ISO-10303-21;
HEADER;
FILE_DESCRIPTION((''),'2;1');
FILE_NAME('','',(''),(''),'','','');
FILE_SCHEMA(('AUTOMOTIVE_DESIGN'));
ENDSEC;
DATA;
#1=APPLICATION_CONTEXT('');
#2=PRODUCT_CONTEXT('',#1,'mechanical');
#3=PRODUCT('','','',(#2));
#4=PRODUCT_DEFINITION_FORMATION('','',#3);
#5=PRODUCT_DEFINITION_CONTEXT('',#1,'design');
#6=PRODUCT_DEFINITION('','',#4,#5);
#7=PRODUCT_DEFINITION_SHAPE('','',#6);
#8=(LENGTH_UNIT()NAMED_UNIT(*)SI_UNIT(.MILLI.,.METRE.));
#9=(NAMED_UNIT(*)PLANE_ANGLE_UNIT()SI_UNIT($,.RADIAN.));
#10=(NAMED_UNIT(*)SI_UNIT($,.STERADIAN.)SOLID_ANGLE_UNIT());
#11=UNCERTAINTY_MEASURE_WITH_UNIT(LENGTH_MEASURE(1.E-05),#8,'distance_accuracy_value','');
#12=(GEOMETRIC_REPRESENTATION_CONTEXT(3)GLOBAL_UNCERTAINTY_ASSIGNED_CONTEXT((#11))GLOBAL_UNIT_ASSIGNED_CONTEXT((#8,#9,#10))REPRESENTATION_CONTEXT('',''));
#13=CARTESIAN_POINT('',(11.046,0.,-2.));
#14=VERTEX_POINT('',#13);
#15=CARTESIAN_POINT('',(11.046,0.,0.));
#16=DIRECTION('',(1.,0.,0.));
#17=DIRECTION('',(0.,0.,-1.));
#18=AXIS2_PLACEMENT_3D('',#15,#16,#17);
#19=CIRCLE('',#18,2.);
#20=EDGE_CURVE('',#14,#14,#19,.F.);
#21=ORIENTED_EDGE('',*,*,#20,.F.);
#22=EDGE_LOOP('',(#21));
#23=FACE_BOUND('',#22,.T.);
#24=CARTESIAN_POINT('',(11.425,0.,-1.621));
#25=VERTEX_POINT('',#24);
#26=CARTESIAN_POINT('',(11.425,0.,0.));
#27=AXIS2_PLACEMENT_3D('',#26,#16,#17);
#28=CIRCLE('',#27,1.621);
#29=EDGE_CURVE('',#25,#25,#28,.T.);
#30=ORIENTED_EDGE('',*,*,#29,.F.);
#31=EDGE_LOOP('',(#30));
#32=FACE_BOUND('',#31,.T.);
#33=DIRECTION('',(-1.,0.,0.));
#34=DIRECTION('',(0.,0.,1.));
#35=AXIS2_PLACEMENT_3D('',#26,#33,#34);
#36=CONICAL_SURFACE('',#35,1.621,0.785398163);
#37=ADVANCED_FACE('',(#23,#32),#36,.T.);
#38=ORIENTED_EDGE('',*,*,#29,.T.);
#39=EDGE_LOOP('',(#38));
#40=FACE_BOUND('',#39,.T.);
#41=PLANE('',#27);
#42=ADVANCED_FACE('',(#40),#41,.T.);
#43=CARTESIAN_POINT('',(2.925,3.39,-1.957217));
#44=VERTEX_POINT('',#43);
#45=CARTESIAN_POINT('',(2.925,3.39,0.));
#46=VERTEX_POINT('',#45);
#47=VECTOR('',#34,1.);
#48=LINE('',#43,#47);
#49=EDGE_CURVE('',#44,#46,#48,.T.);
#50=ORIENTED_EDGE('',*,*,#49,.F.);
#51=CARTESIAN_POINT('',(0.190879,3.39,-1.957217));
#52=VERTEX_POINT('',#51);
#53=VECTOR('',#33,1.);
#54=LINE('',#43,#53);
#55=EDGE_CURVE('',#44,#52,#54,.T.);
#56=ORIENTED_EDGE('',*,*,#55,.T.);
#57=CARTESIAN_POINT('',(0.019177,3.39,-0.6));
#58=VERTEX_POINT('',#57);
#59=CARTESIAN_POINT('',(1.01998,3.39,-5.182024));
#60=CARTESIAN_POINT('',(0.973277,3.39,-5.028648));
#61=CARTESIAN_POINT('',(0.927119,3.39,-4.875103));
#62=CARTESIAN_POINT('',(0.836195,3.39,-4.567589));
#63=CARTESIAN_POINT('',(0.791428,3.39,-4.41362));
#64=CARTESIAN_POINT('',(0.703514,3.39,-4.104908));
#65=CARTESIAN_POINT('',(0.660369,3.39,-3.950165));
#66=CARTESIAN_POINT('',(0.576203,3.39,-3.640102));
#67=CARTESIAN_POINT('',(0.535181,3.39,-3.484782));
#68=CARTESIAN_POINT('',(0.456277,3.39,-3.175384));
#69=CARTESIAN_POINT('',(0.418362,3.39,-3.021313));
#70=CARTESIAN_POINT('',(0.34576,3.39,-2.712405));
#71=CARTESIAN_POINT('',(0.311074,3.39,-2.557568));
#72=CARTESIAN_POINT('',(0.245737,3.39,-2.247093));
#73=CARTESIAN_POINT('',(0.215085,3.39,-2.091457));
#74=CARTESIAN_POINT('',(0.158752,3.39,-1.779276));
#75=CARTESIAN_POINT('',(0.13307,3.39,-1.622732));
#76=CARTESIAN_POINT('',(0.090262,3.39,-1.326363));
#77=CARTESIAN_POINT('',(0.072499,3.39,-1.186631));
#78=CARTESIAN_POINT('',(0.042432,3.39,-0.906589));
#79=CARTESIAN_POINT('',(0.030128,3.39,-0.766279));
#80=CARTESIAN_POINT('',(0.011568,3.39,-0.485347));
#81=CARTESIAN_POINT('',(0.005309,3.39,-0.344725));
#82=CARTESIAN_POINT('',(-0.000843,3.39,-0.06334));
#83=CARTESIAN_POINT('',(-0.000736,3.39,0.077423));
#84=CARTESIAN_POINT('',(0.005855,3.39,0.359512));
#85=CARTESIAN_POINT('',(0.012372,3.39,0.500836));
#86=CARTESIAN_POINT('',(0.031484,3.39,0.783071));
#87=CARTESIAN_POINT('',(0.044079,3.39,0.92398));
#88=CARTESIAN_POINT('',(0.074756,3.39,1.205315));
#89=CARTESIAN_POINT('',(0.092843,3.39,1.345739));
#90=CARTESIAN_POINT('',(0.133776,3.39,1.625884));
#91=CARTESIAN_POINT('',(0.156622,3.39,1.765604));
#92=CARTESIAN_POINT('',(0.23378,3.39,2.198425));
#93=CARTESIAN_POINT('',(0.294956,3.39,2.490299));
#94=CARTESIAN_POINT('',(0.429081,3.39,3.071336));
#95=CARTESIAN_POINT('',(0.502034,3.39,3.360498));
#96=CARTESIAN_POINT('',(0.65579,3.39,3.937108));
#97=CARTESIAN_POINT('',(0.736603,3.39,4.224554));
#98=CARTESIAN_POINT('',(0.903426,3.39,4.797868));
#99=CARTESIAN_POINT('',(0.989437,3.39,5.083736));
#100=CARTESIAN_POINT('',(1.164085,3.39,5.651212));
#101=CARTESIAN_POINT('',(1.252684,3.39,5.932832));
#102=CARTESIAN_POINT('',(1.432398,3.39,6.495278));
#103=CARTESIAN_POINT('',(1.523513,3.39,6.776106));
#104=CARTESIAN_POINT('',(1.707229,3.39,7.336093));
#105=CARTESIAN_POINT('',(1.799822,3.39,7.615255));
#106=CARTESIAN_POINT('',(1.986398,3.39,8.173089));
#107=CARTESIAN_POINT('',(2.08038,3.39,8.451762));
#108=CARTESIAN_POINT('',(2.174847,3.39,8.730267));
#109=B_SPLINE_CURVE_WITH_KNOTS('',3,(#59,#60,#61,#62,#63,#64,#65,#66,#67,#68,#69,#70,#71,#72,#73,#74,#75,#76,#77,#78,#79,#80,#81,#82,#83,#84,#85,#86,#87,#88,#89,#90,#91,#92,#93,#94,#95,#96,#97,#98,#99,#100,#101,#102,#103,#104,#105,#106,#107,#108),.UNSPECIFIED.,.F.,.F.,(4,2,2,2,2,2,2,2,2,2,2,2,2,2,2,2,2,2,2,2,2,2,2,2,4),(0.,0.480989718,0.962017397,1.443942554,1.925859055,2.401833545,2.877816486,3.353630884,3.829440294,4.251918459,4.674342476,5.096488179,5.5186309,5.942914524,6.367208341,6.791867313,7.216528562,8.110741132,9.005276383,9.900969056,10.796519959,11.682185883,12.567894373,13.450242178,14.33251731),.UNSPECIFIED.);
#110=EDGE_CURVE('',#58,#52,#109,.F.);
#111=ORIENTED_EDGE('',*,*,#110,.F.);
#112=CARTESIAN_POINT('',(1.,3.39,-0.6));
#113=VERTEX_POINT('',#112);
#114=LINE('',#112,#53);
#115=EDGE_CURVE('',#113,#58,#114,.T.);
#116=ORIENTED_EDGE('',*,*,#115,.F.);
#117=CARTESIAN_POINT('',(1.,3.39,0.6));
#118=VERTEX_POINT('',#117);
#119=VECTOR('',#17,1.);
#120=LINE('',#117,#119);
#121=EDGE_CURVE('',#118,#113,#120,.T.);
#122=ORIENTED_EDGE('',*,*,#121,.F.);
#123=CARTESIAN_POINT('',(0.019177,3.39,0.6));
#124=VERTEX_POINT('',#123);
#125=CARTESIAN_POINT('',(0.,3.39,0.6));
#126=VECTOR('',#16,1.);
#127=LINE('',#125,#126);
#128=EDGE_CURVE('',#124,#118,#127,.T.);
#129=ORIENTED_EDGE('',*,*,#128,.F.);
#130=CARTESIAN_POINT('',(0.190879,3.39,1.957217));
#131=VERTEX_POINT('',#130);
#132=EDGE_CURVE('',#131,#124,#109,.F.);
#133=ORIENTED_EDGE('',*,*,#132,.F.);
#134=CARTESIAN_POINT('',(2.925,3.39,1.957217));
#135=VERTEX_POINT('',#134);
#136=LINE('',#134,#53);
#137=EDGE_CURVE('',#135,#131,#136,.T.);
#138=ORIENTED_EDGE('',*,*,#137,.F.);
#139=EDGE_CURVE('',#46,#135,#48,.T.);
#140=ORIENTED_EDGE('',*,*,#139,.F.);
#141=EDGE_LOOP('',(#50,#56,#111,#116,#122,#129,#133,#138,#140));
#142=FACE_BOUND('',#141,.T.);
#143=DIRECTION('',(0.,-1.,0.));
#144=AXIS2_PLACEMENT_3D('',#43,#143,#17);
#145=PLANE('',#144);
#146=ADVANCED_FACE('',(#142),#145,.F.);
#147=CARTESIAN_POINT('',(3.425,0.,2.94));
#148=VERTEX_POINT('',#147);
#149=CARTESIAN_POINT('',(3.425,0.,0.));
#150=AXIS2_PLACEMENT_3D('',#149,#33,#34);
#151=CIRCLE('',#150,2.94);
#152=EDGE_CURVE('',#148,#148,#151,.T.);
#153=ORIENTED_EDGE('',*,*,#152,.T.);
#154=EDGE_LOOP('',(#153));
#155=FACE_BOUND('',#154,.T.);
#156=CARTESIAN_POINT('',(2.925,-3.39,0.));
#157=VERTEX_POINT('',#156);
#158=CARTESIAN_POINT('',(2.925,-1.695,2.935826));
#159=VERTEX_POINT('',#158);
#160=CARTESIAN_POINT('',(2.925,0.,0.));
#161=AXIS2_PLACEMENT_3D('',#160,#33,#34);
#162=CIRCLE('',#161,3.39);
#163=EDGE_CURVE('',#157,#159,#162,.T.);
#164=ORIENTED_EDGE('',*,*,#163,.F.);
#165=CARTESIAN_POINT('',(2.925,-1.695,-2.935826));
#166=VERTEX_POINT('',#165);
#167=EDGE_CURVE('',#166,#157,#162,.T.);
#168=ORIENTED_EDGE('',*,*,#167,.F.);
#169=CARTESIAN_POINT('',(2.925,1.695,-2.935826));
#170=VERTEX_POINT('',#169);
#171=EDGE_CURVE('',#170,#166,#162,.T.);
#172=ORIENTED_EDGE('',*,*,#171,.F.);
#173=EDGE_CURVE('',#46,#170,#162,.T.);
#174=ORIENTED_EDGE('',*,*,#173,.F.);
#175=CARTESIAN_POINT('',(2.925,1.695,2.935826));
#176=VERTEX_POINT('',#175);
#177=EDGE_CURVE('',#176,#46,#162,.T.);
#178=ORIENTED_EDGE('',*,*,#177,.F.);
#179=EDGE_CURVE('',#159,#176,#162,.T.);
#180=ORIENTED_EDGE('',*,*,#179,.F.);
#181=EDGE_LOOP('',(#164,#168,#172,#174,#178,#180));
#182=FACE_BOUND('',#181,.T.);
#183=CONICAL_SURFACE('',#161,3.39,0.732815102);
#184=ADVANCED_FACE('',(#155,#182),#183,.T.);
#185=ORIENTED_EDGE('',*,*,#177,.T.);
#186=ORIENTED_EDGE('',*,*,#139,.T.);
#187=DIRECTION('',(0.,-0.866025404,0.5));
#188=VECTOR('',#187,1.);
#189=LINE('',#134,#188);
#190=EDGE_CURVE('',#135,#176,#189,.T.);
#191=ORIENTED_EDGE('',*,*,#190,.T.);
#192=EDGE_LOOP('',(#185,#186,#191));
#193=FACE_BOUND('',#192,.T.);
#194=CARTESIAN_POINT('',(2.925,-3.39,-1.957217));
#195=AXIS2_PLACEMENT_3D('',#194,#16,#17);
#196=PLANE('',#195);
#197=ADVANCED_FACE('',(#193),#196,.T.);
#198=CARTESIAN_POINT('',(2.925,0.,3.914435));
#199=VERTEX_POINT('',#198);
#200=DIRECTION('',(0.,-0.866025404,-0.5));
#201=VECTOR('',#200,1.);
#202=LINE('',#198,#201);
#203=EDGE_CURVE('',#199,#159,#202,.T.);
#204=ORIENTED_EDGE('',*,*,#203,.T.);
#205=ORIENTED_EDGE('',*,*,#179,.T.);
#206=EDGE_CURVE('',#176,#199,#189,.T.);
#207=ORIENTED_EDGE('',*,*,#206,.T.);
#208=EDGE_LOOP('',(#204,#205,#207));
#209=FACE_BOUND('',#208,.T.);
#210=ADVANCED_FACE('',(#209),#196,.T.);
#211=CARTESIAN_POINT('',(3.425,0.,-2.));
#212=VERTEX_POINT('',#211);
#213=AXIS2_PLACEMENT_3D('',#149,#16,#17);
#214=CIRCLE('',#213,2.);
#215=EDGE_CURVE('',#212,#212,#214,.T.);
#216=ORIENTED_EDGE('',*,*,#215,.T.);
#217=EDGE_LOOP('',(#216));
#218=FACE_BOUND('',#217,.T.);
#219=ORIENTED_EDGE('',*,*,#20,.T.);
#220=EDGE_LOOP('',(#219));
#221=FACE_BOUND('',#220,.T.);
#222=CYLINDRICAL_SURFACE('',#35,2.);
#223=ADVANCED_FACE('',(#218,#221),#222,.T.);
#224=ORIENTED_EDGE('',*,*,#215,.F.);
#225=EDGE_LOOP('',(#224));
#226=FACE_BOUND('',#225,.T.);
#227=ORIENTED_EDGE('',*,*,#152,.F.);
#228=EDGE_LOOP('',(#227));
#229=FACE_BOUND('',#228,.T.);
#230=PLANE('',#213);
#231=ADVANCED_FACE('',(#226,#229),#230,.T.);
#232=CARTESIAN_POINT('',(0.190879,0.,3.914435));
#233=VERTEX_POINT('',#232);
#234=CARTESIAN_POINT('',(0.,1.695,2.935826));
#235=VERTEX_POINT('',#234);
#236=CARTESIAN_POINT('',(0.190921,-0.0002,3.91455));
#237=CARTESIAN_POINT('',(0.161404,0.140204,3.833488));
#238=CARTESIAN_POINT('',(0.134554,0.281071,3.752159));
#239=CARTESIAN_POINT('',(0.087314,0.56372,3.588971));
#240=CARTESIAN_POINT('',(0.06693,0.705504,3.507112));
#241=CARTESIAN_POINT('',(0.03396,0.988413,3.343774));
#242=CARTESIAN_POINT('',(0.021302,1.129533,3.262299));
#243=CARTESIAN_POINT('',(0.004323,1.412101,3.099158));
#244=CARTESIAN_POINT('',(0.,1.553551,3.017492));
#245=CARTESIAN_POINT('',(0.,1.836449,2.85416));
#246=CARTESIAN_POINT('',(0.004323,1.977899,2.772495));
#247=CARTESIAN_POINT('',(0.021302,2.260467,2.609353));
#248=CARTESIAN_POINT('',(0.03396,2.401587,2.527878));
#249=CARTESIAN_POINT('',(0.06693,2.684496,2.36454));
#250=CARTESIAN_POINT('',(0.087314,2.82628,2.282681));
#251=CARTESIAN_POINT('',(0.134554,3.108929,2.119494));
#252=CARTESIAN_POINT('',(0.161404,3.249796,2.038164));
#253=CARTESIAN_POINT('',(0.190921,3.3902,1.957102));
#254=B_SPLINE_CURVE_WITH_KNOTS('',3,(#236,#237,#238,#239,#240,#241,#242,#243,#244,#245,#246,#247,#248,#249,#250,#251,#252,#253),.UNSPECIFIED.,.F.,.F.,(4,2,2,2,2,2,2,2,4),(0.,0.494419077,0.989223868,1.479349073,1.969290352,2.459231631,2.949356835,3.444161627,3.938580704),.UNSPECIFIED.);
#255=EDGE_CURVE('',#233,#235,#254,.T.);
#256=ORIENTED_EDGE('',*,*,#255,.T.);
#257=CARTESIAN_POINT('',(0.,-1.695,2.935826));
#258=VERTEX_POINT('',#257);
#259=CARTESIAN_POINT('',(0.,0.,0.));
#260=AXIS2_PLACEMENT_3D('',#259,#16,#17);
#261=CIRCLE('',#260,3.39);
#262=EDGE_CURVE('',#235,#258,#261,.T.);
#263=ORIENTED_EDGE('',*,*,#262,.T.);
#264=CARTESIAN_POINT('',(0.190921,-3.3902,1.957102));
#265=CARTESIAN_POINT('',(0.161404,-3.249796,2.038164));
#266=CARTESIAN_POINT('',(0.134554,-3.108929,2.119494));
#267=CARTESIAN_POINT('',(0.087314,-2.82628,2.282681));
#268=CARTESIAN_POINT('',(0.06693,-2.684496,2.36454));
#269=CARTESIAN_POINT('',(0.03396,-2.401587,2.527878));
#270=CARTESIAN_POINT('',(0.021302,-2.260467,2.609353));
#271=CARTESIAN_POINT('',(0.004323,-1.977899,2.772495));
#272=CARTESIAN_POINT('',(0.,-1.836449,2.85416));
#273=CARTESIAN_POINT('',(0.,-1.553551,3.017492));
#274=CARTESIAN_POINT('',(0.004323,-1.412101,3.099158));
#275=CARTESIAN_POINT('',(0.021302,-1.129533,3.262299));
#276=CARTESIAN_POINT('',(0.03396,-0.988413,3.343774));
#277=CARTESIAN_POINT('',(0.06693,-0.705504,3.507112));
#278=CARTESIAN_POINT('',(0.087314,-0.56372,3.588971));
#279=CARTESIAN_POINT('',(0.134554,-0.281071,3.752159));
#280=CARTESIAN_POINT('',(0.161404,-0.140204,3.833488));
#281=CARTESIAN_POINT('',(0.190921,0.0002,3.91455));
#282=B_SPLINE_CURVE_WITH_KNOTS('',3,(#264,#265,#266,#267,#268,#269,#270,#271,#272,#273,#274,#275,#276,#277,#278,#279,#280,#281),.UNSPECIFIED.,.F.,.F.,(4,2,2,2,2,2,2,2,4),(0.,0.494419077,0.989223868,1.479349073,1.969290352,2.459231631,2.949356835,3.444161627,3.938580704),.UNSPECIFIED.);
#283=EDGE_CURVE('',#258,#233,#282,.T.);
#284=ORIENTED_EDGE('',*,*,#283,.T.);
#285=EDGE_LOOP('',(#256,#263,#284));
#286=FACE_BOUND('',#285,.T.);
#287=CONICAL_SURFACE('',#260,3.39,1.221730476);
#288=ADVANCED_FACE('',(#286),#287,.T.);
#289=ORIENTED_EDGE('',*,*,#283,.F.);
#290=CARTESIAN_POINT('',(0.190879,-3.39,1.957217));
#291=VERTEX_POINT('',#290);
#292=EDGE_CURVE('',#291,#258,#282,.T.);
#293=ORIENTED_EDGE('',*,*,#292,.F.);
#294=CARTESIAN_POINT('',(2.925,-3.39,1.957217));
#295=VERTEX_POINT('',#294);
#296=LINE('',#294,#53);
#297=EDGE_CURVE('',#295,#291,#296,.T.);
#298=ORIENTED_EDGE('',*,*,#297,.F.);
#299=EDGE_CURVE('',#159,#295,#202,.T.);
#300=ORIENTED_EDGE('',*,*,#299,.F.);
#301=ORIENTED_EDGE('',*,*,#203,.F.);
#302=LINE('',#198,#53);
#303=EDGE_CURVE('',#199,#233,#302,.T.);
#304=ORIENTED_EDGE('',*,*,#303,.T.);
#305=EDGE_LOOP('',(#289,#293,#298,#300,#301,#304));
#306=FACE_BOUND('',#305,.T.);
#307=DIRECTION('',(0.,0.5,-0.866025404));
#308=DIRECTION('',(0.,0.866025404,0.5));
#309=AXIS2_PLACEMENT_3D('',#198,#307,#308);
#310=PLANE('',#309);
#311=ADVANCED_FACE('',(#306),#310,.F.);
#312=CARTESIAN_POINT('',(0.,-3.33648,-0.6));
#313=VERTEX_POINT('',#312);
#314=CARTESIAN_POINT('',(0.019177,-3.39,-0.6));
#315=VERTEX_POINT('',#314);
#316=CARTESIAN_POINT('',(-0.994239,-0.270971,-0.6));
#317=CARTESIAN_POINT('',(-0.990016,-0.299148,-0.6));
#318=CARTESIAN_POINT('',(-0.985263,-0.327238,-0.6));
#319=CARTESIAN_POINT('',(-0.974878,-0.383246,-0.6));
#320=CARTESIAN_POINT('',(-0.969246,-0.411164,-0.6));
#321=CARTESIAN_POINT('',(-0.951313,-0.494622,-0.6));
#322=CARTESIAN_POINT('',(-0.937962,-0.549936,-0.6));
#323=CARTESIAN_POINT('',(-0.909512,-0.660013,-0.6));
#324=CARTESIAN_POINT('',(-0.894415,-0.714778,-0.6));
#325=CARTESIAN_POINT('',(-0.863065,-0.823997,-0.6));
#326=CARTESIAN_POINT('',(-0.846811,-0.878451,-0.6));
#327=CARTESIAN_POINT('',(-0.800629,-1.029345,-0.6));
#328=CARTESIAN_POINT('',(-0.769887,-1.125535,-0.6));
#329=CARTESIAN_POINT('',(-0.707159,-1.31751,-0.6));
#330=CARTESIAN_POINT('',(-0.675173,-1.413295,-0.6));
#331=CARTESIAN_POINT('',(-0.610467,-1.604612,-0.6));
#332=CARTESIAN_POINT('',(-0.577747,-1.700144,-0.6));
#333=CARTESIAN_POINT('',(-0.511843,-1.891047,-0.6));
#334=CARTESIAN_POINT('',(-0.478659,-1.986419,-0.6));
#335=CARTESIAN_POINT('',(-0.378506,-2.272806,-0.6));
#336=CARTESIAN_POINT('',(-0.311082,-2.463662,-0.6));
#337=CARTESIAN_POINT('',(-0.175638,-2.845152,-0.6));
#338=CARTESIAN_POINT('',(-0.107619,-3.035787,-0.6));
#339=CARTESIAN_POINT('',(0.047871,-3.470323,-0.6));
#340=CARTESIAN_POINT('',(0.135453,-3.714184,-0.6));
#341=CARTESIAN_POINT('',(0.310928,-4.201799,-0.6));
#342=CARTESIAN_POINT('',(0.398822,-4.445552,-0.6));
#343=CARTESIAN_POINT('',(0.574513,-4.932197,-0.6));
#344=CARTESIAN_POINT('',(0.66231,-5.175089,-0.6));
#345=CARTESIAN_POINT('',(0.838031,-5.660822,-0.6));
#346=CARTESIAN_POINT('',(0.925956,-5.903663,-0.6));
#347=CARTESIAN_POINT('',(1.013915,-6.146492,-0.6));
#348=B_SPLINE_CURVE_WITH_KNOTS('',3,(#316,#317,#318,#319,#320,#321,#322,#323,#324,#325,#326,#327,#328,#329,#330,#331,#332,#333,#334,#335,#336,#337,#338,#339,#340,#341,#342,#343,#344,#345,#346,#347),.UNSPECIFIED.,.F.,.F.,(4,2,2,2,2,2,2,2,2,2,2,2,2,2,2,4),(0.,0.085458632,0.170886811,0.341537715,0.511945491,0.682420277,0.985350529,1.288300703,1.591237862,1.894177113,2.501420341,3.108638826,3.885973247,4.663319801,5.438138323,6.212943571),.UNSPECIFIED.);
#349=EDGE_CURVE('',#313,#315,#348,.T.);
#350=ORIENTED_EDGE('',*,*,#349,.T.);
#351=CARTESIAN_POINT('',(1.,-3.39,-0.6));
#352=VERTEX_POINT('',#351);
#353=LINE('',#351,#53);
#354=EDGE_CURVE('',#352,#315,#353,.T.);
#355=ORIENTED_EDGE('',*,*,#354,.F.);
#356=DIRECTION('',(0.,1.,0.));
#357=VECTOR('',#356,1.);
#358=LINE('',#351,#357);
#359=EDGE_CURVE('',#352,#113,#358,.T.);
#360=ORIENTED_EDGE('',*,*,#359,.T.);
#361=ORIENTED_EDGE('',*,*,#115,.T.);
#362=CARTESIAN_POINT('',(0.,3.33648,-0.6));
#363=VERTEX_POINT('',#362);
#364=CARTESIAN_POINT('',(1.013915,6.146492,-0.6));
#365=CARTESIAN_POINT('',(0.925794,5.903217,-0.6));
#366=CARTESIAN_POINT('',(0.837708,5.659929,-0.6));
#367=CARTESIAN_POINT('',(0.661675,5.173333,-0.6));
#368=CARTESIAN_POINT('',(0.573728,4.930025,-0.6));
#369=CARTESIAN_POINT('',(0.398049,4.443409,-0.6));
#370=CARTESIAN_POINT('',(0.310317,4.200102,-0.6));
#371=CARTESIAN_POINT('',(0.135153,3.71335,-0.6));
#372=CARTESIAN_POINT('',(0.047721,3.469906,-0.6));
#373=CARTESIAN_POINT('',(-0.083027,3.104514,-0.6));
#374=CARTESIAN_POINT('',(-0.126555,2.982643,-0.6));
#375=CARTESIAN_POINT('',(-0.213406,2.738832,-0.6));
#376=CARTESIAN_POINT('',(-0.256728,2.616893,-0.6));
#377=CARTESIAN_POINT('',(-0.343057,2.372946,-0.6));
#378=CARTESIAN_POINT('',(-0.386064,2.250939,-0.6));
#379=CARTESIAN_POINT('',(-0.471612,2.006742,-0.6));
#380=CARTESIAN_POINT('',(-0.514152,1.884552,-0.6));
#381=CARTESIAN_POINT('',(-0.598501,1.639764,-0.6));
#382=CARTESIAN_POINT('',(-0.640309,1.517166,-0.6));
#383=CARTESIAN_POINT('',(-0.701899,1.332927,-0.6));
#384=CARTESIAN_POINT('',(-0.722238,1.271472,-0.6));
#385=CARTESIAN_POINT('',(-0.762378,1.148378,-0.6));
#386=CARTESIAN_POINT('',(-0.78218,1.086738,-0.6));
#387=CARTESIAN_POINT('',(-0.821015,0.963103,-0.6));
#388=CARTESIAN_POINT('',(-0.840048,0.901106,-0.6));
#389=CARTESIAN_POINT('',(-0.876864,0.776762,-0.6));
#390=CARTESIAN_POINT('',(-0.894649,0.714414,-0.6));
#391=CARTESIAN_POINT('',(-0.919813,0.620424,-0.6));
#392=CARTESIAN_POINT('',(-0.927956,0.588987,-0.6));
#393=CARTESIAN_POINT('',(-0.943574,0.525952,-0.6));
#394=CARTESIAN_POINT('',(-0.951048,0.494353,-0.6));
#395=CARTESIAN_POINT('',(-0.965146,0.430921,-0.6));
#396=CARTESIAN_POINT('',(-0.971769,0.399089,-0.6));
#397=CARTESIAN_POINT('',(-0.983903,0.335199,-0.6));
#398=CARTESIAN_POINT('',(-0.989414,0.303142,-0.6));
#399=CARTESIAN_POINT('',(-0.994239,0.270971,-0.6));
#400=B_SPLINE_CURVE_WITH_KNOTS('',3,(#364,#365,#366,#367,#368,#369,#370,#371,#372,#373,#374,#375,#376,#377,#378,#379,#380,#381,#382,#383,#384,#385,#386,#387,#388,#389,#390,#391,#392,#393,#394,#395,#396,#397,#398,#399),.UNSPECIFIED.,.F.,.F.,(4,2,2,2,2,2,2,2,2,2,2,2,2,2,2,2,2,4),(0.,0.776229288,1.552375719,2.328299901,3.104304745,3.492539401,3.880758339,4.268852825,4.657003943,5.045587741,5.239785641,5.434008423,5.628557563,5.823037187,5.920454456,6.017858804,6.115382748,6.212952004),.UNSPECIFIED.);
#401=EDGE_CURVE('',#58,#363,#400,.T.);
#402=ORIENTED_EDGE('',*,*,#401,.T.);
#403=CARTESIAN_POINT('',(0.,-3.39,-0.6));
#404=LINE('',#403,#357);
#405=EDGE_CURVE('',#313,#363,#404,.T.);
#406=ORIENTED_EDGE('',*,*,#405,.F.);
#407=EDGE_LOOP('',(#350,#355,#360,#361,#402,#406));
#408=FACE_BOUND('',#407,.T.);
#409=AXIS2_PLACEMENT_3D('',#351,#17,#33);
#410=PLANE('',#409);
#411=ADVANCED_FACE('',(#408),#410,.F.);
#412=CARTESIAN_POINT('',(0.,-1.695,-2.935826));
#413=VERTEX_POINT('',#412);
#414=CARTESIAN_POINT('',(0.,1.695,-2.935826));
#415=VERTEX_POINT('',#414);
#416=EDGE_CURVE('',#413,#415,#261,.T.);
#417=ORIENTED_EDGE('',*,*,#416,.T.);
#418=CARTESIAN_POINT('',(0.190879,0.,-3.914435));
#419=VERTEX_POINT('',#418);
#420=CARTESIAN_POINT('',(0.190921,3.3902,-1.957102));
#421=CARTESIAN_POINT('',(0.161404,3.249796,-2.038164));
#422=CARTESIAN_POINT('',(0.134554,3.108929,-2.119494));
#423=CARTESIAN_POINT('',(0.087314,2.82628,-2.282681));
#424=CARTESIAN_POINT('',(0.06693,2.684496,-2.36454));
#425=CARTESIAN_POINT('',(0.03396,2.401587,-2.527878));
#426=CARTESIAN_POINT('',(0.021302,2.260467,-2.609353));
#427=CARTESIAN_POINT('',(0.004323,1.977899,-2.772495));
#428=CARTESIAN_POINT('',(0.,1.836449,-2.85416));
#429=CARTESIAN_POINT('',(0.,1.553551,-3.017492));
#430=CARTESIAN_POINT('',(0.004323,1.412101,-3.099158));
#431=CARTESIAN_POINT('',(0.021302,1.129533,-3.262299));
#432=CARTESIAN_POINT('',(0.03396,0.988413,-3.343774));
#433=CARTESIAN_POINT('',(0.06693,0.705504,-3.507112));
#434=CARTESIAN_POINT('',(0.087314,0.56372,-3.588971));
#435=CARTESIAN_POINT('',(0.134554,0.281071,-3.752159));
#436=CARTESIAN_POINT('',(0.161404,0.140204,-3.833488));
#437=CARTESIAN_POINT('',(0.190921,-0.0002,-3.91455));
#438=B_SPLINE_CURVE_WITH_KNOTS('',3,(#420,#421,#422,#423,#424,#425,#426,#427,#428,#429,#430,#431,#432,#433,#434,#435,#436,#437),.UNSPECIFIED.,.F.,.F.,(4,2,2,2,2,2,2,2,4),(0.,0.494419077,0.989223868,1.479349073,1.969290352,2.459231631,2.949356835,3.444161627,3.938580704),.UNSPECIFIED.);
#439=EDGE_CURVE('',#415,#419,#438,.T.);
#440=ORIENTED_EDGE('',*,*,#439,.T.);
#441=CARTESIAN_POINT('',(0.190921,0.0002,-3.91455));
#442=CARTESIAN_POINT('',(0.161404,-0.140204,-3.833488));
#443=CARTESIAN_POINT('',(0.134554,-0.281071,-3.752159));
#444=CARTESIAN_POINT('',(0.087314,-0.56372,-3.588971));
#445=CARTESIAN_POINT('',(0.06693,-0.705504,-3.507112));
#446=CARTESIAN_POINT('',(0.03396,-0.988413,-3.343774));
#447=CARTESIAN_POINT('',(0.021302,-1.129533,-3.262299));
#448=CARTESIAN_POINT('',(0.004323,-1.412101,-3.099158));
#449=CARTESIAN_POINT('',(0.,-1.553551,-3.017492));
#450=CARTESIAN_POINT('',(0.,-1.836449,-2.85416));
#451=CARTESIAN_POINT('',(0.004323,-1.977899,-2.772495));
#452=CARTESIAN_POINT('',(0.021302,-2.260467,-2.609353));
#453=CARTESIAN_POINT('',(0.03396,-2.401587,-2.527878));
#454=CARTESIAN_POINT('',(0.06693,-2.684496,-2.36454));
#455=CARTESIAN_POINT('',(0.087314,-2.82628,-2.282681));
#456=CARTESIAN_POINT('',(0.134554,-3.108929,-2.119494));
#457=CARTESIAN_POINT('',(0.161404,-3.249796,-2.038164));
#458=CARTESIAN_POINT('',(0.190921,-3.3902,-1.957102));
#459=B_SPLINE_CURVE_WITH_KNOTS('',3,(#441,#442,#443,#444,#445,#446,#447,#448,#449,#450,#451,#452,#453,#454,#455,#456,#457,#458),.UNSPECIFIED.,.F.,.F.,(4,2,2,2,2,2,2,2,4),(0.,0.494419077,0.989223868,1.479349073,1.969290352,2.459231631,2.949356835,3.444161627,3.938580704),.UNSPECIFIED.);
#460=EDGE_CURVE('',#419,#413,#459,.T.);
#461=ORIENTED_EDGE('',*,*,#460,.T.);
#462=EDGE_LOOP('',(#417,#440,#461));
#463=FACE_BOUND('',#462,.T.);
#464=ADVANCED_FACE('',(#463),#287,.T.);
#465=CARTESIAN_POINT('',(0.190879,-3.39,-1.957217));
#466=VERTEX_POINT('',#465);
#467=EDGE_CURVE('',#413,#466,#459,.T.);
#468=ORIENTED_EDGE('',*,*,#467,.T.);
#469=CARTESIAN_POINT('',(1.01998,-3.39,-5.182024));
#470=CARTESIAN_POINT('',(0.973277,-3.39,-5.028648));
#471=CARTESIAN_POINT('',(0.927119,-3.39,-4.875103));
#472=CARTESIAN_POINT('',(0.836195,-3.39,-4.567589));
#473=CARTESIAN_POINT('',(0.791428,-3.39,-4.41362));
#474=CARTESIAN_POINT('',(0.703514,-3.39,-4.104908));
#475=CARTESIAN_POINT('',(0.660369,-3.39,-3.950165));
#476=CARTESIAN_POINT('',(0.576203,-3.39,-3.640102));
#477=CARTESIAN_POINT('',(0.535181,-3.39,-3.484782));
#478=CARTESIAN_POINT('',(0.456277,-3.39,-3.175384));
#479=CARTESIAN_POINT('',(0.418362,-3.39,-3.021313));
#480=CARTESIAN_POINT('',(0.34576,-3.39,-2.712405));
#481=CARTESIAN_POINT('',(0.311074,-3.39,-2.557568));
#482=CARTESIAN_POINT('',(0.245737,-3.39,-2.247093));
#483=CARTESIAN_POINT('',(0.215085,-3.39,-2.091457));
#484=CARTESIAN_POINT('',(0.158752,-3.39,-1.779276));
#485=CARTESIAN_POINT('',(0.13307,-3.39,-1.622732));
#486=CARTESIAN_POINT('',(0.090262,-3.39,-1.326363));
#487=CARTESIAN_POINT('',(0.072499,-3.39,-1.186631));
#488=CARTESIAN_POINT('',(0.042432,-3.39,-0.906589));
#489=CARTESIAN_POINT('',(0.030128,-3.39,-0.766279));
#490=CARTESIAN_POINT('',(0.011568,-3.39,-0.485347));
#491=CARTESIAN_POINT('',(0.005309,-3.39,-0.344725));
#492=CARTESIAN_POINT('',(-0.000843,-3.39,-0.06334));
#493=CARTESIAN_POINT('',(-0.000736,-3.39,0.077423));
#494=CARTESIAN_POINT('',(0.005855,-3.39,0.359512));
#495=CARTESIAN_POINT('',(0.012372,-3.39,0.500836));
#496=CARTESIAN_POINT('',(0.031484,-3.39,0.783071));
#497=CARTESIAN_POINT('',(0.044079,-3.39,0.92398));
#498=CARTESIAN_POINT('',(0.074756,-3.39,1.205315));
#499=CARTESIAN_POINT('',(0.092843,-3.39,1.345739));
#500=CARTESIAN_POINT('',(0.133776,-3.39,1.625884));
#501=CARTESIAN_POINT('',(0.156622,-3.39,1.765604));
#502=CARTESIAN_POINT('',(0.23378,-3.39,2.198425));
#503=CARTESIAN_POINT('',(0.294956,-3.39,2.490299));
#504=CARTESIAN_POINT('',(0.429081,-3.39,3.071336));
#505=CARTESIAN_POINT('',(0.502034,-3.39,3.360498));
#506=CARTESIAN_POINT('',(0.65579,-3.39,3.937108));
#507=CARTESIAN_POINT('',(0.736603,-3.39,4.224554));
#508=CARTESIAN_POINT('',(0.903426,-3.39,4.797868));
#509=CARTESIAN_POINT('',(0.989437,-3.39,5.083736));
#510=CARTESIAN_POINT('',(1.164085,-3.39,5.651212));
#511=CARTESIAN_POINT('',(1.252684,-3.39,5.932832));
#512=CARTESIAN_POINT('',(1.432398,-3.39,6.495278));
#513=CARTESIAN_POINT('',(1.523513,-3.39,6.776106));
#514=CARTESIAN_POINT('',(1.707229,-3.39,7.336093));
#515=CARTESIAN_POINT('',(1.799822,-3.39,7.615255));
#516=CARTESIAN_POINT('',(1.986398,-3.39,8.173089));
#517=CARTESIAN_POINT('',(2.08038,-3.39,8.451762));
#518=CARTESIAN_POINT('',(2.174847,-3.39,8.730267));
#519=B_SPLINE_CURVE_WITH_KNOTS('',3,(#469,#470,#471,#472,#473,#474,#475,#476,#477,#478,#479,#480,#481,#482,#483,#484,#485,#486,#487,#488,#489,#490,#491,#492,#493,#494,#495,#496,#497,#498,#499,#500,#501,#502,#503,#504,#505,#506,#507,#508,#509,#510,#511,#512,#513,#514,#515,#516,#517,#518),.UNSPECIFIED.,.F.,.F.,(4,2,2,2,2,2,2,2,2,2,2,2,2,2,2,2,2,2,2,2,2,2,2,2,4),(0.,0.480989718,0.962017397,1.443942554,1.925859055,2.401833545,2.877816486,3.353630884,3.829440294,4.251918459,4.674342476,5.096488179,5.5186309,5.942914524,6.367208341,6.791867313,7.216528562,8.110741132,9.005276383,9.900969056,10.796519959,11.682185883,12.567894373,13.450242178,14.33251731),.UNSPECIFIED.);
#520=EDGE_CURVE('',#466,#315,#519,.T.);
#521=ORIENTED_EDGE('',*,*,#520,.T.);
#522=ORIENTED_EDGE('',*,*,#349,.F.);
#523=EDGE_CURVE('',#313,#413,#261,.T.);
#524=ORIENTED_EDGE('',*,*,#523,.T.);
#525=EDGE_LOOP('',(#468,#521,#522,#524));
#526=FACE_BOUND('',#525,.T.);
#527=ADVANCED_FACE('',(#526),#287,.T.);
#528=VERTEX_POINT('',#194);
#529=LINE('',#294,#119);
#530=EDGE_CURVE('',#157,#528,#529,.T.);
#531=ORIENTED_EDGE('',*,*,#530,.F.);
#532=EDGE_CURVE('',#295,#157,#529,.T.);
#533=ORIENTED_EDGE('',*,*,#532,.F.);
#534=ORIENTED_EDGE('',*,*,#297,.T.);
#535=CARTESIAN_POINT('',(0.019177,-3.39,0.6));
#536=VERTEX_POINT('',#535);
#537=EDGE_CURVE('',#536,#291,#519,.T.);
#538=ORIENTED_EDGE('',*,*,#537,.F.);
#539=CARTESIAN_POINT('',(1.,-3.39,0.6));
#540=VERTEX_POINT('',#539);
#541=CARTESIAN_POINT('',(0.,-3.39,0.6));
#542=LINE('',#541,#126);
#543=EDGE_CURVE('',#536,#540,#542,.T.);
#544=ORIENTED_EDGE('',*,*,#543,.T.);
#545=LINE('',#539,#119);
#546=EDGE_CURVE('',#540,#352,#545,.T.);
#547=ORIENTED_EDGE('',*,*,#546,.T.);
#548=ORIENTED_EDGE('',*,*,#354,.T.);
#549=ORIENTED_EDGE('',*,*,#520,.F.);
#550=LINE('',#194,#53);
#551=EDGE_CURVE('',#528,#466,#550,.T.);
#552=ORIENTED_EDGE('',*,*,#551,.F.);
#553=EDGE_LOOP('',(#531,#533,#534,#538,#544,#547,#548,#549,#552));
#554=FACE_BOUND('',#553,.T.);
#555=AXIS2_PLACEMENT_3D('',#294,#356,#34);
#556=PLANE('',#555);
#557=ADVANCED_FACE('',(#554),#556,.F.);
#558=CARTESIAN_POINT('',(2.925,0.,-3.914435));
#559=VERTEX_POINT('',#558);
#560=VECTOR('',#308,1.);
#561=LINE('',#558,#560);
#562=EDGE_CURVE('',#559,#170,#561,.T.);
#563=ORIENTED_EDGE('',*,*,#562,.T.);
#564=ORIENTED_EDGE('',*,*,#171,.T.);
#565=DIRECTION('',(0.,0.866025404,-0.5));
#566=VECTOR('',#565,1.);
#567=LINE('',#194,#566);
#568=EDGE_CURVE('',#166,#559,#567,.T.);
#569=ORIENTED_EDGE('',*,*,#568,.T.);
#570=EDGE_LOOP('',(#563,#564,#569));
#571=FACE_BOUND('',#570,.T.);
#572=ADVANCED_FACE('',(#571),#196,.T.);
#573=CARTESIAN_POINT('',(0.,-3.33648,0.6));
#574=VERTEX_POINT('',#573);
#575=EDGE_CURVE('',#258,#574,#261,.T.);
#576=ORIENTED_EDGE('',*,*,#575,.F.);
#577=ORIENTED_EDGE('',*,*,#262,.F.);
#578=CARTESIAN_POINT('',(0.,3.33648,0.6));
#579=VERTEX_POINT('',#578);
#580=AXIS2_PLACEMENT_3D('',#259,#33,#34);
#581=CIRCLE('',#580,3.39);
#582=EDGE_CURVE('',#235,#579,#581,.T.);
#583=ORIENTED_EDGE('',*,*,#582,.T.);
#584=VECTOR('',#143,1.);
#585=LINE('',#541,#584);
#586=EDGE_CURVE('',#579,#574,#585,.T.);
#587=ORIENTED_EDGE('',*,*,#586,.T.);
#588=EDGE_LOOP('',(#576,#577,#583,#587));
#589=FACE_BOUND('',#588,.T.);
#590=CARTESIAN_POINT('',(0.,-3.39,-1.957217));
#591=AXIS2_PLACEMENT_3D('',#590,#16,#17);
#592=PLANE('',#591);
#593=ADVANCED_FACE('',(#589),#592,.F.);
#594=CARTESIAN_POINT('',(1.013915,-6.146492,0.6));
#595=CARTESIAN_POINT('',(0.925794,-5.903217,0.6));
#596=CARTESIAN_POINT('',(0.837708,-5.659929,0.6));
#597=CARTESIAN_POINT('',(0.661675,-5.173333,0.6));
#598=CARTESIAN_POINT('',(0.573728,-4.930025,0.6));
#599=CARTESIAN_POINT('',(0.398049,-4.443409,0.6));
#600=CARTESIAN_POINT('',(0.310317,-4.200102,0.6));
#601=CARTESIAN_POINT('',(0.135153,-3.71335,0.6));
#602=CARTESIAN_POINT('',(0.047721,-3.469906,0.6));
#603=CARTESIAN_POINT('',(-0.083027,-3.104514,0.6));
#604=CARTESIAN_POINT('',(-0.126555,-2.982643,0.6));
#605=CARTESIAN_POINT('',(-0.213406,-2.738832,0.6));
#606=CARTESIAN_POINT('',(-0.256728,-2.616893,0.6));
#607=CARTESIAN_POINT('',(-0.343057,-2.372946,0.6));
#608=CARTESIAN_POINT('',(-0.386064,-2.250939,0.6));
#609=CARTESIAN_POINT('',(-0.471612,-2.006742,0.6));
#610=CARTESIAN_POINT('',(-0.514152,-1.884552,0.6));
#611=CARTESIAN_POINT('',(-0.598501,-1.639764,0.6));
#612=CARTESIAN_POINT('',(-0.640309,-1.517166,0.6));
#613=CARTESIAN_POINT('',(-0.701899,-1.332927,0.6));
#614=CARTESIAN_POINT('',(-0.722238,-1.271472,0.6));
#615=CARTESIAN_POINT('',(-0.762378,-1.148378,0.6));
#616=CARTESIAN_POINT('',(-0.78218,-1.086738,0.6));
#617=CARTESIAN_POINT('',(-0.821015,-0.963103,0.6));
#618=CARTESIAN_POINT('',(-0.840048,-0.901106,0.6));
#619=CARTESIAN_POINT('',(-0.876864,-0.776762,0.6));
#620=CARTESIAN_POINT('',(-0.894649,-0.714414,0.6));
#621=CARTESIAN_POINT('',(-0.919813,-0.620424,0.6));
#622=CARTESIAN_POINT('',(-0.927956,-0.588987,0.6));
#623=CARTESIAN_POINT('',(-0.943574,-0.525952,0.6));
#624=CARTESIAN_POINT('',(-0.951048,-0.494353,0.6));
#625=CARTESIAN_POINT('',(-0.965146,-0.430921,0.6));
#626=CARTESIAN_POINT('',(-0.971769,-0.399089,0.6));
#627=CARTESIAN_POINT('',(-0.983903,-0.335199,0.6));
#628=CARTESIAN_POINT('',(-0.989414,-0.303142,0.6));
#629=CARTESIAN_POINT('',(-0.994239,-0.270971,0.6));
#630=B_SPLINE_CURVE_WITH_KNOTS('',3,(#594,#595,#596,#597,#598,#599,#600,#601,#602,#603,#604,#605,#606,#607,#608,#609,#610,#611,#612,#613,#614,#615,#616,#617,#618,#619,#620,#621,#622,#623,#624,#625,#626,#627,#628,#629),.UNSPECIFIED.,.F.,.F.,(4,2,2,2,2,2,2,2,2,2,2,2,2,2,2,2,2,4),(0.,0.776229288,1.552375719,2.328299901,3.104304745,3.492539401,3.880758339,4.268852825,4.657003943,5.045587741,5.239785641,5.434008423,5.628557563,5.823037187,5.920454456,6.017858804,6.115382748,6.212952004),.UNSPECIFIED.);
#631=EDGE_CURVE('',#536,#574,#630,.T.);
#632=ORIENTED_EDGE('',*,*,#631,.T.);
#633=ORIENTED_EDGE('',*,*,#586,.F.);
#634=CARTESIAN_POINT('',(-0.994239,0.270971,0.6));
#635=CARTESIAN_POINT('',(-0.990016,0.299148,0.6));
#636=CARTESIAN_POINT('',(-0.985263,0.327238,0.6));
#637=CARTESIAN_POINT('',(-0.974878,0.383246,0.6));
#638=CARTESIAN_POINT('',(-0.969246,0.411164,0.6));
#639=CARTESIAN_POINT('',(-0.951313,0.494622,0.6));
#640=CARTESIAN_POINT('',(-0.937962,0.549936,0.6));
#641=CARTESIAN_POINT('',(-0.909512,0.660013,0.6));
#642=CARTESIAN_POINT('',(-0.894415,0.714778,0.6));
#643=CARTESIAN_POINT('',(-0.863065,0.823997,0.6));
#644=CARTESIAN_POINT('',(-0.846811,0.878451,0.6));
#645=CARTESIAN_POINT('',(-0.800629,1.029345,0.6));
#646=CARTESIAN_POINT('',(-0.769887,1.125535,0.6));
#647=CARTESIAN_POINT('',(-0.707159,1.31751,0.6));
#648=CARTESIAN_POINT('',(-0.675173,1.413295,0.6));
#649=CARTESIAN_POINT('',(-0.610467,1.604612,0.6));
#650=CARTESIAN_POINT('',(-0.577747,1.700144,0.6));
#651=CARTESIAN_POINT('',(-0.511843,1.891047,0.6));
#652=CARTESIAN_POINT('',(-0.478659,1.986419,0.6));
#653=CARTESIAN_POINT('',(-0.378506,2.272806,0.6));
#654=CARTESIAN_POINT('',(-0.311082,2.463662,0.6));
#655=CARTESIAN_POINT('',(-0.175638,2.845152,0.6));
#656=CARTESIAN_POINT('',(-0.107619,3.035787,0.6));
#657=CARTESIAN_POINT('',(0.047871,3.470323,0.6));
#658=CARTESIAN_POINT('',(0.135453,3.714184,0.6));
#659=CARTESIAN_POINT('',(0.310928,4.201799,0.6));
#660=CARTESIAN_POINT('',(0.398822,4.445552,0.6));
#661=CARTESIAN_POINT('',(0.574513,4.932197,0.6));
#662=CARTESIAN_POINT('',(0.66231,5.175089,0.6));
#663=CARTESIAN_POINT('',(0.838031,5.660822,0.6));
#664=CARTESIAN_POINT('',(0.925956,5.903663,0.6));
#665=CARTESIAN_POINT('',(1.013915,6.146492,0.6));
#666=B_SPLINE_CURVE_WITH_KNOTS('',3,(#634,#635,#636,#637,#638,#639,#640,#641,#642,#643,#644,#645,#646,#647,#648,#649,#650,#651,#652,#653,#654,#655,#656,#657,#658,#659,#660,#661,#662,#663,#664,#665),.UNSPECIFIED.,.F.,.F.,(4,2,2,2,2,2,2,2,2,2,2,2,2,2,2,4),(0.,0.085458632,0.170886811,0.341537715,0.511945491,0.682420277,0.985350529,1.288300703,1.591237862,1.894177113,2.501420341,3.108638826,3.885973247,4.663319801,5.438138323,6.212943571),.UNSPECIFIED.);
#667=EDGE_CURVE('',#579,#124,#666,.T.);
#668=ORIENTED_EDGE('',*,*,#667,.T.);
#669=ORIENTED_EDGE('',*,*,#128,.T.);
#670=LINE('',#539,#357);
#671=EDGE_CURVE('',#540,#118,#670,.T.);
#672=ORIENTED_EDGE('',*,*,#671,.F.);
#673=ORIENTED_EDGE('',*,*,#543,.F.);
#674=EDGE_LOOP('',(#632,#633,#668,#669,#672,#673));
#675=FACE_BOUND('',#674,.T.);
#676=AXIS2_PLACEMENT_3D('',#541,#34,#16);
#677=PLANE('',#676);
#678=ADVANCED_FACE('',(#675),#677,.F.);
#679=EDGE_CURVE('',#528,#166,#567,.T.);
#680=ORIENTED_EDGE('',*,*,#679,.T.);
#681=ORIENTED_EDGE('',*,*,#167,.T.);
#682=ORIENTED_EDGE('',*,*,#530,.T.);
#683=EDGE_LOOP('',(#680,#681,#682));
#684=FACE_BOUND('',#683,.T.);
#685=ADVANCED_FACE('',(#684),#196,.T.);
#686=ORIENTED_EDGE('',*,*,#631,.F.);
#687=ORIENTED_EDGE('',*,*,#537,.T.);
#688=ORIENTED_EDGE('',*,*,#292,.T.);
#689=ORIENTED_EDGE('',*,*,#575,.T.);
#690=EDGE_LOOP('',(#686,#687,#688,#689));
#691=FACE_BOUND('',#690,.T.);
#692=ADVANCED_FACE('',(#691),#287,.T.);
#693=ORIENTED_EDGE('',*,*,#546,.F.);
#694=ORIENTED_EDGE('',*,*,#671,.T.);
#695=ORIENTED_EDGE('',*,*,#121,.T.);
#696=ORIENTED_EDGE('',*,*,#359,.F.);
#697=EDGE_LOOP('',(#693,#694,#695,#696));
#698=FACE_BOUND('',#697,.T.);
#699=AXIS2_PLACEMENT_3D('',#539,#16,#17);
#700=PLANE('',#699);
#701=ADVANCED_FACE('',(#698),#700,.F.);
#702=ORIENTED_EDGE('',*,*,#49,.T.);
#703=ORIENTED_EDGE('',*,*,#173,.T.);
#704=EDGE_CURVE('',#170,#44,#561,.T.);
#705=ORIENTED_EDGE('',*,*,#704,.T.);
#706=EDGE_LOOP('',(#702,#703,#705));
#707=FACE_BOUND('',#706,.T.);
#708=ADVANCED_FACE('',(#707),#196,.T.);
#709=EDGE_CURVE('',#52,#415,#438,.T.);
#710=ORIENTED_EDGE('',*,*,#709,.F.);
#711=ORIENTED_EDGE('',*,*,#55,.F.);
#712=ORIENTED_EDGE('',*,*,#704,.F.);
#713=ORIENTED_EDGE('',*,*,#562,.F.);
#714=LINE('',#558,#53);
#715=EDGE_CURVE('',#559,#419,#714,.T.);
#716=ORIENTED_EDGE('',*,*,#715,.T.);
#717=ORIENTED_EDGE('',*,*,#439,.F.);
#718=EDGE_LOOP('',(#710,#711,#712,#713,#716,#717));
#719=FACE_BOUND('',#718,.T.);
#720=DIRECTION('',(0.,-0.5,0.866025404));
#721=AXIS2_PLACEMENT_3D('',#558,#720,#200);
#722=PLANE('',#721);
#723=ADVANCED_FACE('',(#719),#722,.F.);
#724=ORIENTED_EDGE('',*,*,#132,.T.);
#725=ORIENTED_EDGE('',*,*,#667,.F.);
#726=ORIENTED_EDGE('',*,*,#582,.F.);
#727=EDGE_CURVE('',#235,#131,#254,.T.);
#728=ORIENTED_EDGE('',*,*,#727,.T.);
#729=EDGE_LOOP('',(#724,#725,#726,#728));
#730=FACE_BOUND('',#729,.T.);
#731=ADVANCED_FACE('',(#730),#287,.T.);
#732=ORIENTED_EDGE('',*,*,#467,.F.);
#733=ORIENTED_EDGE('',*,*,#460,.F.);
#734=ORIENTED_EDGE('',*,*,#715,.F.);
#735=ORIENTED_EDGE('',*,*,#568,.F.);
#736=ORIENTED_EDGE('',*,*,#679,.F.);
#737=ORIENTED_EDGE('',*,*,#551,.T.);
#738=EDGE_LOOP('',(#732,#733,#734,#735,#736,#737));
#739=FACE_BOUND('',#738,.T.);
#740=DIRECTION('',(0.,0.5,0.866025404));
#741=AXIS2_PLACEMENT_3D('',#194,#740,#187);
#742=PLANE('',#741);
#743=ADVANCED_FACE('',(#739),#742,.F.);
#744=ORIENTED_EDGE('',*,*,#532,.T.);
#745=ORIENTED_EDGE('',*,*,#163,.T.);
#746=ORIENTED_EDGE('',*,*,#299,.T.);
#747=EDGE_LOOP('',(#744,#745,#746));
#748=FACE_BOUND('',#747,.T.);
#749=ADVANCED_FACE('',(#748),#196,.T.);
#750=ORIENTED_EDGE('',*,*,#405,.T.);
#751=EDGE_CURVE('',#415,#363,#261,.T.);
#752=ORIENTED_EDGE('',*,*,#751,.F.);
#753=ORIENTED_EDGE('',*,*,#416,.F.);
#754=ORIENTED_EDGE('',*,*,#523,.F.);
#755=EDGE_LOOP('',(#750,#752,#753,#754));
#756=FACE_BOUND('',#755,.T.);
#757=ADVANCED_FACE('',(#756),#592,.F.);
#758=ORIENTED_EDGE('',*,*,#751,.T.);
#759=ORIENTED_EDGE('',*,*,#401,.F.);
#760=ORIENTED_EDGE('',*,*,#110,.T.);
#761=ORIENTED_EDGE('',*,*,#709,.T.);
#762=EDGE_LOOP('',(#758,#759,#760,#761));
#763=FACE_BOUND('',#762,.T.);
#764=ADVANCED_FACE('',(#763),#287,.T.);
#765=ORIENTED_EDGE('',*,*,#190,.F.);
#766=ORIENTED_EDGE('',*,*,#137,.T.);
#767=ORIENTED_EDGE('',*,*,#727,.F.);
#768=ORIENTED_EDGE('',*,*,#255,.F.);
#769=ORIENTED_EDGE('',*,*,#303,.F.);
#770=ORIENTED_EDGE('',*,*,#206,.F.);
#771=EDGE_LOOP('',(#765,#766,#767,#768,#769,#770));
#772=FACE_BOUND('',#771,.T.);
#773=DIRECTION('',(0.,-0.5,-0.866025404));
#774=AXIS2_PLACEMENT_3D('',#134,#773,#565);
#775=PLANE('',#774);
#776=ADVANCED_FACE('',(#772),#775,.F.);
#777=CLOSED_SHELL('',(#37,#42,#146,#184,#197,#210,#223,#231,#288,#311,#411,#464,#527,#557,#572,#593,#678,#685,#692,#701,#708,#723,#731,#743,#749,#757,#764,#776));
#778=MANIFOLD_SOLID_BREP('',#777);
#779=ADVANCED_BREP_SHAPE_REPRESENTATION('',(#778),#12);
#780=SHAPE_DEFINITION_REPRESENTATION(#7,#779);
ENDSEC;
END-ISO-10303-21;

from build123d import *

# Parameters (mm, degrees)
BASEHEAD_DEPTH  = 2.925
SKETCH3_R       = 2
BASEBODY_DEPTH  = 8
CHAMFER1_SIZE   = 0.379
SKETCH5_W       = 1
SKETCH5_H       = 1.2
SLOT_DEPTH      = 4.39
SLOT_DEPTH_BACK = 4.39


with BuildPart() as part:
    # Sketch-BaseHead → BaseHead (new body)
    with BuildSketch(Plane(origin=(0, 0, 0), x_dir=(0, 0, -1), z_dir=(1, 0, 0))):
        Polygon((1.957217413, -3.39), (3.914434825, 0), (1.957217413, 3.39), (-1.957217413, 3.39), (-3.914434825, 0), (-1.957217413, -3.39), align=None)
    extrude(amount=BASEHEAD_DEPTH)

    # Sketch1 → Revolve1 (revolve)
    with BuildSketch(Plane.XY):
        Polygon((2.925, 0), (3.425, 0), (3.425, -2.94), (2.925, -3.39), align=None)
    revolve(axis=Axis((-4.001564945, 0, 0), (1, 0, 0)))

    # Sketch3 → BaseBody (add)
    with BuildSketch(Plane(origin=(3.425, 0, 0), x_dir=(0, 0, -1), z_dir=(1, 0, 0))):
        Circle(SKETCH3_R)
    extrude(amount=BASEBODY_DEPTH)

    # Chamfer1
    chamfer1_edges = [part.edges().sort_by_distance(p)[0] for p in [
        (11.425, 0, 2),
    ]]
    chamfer(chamfer1_edges, length=CHAMFER1_SIZE)

    # Sketch4 → HeadChamfer (revolve, cut)
    with BuildSketch(Plane(origin=(-0.264637255, 0, 5.916896391), x_dir=(0, 0, -1), z_dir=(0, 1, 0))):
        Polygon((9.831331216, -0.264637255), (9.306896391, -0.264637255), (9.831331216, -0.455515922), align=None)
    revolve(axis=Axis((-4.001564945, 0, 0), (1, 0, 0)), mode=Mode.SUBTRACT)

    # Sketch5 → Slot (cut, two sides)
    with BuildSketch(Plane(origin=(0, 0, 0), x_dir=(1, 0, 0), z_dir=(0, 1, 0))) as slot_sk:
        with Locations((0.5, 0)):
            Rectangle(SKETCH5_W, SKETCH5_H)
    extrude(amount=SLOT_DEPTH, mode=Mode.SUBTRACT)
    extrude(slot_sk.sketch, amount=-SLOT_DEPTH_BACK, mode=Mode.SUBTRACT)


solid = part.part
